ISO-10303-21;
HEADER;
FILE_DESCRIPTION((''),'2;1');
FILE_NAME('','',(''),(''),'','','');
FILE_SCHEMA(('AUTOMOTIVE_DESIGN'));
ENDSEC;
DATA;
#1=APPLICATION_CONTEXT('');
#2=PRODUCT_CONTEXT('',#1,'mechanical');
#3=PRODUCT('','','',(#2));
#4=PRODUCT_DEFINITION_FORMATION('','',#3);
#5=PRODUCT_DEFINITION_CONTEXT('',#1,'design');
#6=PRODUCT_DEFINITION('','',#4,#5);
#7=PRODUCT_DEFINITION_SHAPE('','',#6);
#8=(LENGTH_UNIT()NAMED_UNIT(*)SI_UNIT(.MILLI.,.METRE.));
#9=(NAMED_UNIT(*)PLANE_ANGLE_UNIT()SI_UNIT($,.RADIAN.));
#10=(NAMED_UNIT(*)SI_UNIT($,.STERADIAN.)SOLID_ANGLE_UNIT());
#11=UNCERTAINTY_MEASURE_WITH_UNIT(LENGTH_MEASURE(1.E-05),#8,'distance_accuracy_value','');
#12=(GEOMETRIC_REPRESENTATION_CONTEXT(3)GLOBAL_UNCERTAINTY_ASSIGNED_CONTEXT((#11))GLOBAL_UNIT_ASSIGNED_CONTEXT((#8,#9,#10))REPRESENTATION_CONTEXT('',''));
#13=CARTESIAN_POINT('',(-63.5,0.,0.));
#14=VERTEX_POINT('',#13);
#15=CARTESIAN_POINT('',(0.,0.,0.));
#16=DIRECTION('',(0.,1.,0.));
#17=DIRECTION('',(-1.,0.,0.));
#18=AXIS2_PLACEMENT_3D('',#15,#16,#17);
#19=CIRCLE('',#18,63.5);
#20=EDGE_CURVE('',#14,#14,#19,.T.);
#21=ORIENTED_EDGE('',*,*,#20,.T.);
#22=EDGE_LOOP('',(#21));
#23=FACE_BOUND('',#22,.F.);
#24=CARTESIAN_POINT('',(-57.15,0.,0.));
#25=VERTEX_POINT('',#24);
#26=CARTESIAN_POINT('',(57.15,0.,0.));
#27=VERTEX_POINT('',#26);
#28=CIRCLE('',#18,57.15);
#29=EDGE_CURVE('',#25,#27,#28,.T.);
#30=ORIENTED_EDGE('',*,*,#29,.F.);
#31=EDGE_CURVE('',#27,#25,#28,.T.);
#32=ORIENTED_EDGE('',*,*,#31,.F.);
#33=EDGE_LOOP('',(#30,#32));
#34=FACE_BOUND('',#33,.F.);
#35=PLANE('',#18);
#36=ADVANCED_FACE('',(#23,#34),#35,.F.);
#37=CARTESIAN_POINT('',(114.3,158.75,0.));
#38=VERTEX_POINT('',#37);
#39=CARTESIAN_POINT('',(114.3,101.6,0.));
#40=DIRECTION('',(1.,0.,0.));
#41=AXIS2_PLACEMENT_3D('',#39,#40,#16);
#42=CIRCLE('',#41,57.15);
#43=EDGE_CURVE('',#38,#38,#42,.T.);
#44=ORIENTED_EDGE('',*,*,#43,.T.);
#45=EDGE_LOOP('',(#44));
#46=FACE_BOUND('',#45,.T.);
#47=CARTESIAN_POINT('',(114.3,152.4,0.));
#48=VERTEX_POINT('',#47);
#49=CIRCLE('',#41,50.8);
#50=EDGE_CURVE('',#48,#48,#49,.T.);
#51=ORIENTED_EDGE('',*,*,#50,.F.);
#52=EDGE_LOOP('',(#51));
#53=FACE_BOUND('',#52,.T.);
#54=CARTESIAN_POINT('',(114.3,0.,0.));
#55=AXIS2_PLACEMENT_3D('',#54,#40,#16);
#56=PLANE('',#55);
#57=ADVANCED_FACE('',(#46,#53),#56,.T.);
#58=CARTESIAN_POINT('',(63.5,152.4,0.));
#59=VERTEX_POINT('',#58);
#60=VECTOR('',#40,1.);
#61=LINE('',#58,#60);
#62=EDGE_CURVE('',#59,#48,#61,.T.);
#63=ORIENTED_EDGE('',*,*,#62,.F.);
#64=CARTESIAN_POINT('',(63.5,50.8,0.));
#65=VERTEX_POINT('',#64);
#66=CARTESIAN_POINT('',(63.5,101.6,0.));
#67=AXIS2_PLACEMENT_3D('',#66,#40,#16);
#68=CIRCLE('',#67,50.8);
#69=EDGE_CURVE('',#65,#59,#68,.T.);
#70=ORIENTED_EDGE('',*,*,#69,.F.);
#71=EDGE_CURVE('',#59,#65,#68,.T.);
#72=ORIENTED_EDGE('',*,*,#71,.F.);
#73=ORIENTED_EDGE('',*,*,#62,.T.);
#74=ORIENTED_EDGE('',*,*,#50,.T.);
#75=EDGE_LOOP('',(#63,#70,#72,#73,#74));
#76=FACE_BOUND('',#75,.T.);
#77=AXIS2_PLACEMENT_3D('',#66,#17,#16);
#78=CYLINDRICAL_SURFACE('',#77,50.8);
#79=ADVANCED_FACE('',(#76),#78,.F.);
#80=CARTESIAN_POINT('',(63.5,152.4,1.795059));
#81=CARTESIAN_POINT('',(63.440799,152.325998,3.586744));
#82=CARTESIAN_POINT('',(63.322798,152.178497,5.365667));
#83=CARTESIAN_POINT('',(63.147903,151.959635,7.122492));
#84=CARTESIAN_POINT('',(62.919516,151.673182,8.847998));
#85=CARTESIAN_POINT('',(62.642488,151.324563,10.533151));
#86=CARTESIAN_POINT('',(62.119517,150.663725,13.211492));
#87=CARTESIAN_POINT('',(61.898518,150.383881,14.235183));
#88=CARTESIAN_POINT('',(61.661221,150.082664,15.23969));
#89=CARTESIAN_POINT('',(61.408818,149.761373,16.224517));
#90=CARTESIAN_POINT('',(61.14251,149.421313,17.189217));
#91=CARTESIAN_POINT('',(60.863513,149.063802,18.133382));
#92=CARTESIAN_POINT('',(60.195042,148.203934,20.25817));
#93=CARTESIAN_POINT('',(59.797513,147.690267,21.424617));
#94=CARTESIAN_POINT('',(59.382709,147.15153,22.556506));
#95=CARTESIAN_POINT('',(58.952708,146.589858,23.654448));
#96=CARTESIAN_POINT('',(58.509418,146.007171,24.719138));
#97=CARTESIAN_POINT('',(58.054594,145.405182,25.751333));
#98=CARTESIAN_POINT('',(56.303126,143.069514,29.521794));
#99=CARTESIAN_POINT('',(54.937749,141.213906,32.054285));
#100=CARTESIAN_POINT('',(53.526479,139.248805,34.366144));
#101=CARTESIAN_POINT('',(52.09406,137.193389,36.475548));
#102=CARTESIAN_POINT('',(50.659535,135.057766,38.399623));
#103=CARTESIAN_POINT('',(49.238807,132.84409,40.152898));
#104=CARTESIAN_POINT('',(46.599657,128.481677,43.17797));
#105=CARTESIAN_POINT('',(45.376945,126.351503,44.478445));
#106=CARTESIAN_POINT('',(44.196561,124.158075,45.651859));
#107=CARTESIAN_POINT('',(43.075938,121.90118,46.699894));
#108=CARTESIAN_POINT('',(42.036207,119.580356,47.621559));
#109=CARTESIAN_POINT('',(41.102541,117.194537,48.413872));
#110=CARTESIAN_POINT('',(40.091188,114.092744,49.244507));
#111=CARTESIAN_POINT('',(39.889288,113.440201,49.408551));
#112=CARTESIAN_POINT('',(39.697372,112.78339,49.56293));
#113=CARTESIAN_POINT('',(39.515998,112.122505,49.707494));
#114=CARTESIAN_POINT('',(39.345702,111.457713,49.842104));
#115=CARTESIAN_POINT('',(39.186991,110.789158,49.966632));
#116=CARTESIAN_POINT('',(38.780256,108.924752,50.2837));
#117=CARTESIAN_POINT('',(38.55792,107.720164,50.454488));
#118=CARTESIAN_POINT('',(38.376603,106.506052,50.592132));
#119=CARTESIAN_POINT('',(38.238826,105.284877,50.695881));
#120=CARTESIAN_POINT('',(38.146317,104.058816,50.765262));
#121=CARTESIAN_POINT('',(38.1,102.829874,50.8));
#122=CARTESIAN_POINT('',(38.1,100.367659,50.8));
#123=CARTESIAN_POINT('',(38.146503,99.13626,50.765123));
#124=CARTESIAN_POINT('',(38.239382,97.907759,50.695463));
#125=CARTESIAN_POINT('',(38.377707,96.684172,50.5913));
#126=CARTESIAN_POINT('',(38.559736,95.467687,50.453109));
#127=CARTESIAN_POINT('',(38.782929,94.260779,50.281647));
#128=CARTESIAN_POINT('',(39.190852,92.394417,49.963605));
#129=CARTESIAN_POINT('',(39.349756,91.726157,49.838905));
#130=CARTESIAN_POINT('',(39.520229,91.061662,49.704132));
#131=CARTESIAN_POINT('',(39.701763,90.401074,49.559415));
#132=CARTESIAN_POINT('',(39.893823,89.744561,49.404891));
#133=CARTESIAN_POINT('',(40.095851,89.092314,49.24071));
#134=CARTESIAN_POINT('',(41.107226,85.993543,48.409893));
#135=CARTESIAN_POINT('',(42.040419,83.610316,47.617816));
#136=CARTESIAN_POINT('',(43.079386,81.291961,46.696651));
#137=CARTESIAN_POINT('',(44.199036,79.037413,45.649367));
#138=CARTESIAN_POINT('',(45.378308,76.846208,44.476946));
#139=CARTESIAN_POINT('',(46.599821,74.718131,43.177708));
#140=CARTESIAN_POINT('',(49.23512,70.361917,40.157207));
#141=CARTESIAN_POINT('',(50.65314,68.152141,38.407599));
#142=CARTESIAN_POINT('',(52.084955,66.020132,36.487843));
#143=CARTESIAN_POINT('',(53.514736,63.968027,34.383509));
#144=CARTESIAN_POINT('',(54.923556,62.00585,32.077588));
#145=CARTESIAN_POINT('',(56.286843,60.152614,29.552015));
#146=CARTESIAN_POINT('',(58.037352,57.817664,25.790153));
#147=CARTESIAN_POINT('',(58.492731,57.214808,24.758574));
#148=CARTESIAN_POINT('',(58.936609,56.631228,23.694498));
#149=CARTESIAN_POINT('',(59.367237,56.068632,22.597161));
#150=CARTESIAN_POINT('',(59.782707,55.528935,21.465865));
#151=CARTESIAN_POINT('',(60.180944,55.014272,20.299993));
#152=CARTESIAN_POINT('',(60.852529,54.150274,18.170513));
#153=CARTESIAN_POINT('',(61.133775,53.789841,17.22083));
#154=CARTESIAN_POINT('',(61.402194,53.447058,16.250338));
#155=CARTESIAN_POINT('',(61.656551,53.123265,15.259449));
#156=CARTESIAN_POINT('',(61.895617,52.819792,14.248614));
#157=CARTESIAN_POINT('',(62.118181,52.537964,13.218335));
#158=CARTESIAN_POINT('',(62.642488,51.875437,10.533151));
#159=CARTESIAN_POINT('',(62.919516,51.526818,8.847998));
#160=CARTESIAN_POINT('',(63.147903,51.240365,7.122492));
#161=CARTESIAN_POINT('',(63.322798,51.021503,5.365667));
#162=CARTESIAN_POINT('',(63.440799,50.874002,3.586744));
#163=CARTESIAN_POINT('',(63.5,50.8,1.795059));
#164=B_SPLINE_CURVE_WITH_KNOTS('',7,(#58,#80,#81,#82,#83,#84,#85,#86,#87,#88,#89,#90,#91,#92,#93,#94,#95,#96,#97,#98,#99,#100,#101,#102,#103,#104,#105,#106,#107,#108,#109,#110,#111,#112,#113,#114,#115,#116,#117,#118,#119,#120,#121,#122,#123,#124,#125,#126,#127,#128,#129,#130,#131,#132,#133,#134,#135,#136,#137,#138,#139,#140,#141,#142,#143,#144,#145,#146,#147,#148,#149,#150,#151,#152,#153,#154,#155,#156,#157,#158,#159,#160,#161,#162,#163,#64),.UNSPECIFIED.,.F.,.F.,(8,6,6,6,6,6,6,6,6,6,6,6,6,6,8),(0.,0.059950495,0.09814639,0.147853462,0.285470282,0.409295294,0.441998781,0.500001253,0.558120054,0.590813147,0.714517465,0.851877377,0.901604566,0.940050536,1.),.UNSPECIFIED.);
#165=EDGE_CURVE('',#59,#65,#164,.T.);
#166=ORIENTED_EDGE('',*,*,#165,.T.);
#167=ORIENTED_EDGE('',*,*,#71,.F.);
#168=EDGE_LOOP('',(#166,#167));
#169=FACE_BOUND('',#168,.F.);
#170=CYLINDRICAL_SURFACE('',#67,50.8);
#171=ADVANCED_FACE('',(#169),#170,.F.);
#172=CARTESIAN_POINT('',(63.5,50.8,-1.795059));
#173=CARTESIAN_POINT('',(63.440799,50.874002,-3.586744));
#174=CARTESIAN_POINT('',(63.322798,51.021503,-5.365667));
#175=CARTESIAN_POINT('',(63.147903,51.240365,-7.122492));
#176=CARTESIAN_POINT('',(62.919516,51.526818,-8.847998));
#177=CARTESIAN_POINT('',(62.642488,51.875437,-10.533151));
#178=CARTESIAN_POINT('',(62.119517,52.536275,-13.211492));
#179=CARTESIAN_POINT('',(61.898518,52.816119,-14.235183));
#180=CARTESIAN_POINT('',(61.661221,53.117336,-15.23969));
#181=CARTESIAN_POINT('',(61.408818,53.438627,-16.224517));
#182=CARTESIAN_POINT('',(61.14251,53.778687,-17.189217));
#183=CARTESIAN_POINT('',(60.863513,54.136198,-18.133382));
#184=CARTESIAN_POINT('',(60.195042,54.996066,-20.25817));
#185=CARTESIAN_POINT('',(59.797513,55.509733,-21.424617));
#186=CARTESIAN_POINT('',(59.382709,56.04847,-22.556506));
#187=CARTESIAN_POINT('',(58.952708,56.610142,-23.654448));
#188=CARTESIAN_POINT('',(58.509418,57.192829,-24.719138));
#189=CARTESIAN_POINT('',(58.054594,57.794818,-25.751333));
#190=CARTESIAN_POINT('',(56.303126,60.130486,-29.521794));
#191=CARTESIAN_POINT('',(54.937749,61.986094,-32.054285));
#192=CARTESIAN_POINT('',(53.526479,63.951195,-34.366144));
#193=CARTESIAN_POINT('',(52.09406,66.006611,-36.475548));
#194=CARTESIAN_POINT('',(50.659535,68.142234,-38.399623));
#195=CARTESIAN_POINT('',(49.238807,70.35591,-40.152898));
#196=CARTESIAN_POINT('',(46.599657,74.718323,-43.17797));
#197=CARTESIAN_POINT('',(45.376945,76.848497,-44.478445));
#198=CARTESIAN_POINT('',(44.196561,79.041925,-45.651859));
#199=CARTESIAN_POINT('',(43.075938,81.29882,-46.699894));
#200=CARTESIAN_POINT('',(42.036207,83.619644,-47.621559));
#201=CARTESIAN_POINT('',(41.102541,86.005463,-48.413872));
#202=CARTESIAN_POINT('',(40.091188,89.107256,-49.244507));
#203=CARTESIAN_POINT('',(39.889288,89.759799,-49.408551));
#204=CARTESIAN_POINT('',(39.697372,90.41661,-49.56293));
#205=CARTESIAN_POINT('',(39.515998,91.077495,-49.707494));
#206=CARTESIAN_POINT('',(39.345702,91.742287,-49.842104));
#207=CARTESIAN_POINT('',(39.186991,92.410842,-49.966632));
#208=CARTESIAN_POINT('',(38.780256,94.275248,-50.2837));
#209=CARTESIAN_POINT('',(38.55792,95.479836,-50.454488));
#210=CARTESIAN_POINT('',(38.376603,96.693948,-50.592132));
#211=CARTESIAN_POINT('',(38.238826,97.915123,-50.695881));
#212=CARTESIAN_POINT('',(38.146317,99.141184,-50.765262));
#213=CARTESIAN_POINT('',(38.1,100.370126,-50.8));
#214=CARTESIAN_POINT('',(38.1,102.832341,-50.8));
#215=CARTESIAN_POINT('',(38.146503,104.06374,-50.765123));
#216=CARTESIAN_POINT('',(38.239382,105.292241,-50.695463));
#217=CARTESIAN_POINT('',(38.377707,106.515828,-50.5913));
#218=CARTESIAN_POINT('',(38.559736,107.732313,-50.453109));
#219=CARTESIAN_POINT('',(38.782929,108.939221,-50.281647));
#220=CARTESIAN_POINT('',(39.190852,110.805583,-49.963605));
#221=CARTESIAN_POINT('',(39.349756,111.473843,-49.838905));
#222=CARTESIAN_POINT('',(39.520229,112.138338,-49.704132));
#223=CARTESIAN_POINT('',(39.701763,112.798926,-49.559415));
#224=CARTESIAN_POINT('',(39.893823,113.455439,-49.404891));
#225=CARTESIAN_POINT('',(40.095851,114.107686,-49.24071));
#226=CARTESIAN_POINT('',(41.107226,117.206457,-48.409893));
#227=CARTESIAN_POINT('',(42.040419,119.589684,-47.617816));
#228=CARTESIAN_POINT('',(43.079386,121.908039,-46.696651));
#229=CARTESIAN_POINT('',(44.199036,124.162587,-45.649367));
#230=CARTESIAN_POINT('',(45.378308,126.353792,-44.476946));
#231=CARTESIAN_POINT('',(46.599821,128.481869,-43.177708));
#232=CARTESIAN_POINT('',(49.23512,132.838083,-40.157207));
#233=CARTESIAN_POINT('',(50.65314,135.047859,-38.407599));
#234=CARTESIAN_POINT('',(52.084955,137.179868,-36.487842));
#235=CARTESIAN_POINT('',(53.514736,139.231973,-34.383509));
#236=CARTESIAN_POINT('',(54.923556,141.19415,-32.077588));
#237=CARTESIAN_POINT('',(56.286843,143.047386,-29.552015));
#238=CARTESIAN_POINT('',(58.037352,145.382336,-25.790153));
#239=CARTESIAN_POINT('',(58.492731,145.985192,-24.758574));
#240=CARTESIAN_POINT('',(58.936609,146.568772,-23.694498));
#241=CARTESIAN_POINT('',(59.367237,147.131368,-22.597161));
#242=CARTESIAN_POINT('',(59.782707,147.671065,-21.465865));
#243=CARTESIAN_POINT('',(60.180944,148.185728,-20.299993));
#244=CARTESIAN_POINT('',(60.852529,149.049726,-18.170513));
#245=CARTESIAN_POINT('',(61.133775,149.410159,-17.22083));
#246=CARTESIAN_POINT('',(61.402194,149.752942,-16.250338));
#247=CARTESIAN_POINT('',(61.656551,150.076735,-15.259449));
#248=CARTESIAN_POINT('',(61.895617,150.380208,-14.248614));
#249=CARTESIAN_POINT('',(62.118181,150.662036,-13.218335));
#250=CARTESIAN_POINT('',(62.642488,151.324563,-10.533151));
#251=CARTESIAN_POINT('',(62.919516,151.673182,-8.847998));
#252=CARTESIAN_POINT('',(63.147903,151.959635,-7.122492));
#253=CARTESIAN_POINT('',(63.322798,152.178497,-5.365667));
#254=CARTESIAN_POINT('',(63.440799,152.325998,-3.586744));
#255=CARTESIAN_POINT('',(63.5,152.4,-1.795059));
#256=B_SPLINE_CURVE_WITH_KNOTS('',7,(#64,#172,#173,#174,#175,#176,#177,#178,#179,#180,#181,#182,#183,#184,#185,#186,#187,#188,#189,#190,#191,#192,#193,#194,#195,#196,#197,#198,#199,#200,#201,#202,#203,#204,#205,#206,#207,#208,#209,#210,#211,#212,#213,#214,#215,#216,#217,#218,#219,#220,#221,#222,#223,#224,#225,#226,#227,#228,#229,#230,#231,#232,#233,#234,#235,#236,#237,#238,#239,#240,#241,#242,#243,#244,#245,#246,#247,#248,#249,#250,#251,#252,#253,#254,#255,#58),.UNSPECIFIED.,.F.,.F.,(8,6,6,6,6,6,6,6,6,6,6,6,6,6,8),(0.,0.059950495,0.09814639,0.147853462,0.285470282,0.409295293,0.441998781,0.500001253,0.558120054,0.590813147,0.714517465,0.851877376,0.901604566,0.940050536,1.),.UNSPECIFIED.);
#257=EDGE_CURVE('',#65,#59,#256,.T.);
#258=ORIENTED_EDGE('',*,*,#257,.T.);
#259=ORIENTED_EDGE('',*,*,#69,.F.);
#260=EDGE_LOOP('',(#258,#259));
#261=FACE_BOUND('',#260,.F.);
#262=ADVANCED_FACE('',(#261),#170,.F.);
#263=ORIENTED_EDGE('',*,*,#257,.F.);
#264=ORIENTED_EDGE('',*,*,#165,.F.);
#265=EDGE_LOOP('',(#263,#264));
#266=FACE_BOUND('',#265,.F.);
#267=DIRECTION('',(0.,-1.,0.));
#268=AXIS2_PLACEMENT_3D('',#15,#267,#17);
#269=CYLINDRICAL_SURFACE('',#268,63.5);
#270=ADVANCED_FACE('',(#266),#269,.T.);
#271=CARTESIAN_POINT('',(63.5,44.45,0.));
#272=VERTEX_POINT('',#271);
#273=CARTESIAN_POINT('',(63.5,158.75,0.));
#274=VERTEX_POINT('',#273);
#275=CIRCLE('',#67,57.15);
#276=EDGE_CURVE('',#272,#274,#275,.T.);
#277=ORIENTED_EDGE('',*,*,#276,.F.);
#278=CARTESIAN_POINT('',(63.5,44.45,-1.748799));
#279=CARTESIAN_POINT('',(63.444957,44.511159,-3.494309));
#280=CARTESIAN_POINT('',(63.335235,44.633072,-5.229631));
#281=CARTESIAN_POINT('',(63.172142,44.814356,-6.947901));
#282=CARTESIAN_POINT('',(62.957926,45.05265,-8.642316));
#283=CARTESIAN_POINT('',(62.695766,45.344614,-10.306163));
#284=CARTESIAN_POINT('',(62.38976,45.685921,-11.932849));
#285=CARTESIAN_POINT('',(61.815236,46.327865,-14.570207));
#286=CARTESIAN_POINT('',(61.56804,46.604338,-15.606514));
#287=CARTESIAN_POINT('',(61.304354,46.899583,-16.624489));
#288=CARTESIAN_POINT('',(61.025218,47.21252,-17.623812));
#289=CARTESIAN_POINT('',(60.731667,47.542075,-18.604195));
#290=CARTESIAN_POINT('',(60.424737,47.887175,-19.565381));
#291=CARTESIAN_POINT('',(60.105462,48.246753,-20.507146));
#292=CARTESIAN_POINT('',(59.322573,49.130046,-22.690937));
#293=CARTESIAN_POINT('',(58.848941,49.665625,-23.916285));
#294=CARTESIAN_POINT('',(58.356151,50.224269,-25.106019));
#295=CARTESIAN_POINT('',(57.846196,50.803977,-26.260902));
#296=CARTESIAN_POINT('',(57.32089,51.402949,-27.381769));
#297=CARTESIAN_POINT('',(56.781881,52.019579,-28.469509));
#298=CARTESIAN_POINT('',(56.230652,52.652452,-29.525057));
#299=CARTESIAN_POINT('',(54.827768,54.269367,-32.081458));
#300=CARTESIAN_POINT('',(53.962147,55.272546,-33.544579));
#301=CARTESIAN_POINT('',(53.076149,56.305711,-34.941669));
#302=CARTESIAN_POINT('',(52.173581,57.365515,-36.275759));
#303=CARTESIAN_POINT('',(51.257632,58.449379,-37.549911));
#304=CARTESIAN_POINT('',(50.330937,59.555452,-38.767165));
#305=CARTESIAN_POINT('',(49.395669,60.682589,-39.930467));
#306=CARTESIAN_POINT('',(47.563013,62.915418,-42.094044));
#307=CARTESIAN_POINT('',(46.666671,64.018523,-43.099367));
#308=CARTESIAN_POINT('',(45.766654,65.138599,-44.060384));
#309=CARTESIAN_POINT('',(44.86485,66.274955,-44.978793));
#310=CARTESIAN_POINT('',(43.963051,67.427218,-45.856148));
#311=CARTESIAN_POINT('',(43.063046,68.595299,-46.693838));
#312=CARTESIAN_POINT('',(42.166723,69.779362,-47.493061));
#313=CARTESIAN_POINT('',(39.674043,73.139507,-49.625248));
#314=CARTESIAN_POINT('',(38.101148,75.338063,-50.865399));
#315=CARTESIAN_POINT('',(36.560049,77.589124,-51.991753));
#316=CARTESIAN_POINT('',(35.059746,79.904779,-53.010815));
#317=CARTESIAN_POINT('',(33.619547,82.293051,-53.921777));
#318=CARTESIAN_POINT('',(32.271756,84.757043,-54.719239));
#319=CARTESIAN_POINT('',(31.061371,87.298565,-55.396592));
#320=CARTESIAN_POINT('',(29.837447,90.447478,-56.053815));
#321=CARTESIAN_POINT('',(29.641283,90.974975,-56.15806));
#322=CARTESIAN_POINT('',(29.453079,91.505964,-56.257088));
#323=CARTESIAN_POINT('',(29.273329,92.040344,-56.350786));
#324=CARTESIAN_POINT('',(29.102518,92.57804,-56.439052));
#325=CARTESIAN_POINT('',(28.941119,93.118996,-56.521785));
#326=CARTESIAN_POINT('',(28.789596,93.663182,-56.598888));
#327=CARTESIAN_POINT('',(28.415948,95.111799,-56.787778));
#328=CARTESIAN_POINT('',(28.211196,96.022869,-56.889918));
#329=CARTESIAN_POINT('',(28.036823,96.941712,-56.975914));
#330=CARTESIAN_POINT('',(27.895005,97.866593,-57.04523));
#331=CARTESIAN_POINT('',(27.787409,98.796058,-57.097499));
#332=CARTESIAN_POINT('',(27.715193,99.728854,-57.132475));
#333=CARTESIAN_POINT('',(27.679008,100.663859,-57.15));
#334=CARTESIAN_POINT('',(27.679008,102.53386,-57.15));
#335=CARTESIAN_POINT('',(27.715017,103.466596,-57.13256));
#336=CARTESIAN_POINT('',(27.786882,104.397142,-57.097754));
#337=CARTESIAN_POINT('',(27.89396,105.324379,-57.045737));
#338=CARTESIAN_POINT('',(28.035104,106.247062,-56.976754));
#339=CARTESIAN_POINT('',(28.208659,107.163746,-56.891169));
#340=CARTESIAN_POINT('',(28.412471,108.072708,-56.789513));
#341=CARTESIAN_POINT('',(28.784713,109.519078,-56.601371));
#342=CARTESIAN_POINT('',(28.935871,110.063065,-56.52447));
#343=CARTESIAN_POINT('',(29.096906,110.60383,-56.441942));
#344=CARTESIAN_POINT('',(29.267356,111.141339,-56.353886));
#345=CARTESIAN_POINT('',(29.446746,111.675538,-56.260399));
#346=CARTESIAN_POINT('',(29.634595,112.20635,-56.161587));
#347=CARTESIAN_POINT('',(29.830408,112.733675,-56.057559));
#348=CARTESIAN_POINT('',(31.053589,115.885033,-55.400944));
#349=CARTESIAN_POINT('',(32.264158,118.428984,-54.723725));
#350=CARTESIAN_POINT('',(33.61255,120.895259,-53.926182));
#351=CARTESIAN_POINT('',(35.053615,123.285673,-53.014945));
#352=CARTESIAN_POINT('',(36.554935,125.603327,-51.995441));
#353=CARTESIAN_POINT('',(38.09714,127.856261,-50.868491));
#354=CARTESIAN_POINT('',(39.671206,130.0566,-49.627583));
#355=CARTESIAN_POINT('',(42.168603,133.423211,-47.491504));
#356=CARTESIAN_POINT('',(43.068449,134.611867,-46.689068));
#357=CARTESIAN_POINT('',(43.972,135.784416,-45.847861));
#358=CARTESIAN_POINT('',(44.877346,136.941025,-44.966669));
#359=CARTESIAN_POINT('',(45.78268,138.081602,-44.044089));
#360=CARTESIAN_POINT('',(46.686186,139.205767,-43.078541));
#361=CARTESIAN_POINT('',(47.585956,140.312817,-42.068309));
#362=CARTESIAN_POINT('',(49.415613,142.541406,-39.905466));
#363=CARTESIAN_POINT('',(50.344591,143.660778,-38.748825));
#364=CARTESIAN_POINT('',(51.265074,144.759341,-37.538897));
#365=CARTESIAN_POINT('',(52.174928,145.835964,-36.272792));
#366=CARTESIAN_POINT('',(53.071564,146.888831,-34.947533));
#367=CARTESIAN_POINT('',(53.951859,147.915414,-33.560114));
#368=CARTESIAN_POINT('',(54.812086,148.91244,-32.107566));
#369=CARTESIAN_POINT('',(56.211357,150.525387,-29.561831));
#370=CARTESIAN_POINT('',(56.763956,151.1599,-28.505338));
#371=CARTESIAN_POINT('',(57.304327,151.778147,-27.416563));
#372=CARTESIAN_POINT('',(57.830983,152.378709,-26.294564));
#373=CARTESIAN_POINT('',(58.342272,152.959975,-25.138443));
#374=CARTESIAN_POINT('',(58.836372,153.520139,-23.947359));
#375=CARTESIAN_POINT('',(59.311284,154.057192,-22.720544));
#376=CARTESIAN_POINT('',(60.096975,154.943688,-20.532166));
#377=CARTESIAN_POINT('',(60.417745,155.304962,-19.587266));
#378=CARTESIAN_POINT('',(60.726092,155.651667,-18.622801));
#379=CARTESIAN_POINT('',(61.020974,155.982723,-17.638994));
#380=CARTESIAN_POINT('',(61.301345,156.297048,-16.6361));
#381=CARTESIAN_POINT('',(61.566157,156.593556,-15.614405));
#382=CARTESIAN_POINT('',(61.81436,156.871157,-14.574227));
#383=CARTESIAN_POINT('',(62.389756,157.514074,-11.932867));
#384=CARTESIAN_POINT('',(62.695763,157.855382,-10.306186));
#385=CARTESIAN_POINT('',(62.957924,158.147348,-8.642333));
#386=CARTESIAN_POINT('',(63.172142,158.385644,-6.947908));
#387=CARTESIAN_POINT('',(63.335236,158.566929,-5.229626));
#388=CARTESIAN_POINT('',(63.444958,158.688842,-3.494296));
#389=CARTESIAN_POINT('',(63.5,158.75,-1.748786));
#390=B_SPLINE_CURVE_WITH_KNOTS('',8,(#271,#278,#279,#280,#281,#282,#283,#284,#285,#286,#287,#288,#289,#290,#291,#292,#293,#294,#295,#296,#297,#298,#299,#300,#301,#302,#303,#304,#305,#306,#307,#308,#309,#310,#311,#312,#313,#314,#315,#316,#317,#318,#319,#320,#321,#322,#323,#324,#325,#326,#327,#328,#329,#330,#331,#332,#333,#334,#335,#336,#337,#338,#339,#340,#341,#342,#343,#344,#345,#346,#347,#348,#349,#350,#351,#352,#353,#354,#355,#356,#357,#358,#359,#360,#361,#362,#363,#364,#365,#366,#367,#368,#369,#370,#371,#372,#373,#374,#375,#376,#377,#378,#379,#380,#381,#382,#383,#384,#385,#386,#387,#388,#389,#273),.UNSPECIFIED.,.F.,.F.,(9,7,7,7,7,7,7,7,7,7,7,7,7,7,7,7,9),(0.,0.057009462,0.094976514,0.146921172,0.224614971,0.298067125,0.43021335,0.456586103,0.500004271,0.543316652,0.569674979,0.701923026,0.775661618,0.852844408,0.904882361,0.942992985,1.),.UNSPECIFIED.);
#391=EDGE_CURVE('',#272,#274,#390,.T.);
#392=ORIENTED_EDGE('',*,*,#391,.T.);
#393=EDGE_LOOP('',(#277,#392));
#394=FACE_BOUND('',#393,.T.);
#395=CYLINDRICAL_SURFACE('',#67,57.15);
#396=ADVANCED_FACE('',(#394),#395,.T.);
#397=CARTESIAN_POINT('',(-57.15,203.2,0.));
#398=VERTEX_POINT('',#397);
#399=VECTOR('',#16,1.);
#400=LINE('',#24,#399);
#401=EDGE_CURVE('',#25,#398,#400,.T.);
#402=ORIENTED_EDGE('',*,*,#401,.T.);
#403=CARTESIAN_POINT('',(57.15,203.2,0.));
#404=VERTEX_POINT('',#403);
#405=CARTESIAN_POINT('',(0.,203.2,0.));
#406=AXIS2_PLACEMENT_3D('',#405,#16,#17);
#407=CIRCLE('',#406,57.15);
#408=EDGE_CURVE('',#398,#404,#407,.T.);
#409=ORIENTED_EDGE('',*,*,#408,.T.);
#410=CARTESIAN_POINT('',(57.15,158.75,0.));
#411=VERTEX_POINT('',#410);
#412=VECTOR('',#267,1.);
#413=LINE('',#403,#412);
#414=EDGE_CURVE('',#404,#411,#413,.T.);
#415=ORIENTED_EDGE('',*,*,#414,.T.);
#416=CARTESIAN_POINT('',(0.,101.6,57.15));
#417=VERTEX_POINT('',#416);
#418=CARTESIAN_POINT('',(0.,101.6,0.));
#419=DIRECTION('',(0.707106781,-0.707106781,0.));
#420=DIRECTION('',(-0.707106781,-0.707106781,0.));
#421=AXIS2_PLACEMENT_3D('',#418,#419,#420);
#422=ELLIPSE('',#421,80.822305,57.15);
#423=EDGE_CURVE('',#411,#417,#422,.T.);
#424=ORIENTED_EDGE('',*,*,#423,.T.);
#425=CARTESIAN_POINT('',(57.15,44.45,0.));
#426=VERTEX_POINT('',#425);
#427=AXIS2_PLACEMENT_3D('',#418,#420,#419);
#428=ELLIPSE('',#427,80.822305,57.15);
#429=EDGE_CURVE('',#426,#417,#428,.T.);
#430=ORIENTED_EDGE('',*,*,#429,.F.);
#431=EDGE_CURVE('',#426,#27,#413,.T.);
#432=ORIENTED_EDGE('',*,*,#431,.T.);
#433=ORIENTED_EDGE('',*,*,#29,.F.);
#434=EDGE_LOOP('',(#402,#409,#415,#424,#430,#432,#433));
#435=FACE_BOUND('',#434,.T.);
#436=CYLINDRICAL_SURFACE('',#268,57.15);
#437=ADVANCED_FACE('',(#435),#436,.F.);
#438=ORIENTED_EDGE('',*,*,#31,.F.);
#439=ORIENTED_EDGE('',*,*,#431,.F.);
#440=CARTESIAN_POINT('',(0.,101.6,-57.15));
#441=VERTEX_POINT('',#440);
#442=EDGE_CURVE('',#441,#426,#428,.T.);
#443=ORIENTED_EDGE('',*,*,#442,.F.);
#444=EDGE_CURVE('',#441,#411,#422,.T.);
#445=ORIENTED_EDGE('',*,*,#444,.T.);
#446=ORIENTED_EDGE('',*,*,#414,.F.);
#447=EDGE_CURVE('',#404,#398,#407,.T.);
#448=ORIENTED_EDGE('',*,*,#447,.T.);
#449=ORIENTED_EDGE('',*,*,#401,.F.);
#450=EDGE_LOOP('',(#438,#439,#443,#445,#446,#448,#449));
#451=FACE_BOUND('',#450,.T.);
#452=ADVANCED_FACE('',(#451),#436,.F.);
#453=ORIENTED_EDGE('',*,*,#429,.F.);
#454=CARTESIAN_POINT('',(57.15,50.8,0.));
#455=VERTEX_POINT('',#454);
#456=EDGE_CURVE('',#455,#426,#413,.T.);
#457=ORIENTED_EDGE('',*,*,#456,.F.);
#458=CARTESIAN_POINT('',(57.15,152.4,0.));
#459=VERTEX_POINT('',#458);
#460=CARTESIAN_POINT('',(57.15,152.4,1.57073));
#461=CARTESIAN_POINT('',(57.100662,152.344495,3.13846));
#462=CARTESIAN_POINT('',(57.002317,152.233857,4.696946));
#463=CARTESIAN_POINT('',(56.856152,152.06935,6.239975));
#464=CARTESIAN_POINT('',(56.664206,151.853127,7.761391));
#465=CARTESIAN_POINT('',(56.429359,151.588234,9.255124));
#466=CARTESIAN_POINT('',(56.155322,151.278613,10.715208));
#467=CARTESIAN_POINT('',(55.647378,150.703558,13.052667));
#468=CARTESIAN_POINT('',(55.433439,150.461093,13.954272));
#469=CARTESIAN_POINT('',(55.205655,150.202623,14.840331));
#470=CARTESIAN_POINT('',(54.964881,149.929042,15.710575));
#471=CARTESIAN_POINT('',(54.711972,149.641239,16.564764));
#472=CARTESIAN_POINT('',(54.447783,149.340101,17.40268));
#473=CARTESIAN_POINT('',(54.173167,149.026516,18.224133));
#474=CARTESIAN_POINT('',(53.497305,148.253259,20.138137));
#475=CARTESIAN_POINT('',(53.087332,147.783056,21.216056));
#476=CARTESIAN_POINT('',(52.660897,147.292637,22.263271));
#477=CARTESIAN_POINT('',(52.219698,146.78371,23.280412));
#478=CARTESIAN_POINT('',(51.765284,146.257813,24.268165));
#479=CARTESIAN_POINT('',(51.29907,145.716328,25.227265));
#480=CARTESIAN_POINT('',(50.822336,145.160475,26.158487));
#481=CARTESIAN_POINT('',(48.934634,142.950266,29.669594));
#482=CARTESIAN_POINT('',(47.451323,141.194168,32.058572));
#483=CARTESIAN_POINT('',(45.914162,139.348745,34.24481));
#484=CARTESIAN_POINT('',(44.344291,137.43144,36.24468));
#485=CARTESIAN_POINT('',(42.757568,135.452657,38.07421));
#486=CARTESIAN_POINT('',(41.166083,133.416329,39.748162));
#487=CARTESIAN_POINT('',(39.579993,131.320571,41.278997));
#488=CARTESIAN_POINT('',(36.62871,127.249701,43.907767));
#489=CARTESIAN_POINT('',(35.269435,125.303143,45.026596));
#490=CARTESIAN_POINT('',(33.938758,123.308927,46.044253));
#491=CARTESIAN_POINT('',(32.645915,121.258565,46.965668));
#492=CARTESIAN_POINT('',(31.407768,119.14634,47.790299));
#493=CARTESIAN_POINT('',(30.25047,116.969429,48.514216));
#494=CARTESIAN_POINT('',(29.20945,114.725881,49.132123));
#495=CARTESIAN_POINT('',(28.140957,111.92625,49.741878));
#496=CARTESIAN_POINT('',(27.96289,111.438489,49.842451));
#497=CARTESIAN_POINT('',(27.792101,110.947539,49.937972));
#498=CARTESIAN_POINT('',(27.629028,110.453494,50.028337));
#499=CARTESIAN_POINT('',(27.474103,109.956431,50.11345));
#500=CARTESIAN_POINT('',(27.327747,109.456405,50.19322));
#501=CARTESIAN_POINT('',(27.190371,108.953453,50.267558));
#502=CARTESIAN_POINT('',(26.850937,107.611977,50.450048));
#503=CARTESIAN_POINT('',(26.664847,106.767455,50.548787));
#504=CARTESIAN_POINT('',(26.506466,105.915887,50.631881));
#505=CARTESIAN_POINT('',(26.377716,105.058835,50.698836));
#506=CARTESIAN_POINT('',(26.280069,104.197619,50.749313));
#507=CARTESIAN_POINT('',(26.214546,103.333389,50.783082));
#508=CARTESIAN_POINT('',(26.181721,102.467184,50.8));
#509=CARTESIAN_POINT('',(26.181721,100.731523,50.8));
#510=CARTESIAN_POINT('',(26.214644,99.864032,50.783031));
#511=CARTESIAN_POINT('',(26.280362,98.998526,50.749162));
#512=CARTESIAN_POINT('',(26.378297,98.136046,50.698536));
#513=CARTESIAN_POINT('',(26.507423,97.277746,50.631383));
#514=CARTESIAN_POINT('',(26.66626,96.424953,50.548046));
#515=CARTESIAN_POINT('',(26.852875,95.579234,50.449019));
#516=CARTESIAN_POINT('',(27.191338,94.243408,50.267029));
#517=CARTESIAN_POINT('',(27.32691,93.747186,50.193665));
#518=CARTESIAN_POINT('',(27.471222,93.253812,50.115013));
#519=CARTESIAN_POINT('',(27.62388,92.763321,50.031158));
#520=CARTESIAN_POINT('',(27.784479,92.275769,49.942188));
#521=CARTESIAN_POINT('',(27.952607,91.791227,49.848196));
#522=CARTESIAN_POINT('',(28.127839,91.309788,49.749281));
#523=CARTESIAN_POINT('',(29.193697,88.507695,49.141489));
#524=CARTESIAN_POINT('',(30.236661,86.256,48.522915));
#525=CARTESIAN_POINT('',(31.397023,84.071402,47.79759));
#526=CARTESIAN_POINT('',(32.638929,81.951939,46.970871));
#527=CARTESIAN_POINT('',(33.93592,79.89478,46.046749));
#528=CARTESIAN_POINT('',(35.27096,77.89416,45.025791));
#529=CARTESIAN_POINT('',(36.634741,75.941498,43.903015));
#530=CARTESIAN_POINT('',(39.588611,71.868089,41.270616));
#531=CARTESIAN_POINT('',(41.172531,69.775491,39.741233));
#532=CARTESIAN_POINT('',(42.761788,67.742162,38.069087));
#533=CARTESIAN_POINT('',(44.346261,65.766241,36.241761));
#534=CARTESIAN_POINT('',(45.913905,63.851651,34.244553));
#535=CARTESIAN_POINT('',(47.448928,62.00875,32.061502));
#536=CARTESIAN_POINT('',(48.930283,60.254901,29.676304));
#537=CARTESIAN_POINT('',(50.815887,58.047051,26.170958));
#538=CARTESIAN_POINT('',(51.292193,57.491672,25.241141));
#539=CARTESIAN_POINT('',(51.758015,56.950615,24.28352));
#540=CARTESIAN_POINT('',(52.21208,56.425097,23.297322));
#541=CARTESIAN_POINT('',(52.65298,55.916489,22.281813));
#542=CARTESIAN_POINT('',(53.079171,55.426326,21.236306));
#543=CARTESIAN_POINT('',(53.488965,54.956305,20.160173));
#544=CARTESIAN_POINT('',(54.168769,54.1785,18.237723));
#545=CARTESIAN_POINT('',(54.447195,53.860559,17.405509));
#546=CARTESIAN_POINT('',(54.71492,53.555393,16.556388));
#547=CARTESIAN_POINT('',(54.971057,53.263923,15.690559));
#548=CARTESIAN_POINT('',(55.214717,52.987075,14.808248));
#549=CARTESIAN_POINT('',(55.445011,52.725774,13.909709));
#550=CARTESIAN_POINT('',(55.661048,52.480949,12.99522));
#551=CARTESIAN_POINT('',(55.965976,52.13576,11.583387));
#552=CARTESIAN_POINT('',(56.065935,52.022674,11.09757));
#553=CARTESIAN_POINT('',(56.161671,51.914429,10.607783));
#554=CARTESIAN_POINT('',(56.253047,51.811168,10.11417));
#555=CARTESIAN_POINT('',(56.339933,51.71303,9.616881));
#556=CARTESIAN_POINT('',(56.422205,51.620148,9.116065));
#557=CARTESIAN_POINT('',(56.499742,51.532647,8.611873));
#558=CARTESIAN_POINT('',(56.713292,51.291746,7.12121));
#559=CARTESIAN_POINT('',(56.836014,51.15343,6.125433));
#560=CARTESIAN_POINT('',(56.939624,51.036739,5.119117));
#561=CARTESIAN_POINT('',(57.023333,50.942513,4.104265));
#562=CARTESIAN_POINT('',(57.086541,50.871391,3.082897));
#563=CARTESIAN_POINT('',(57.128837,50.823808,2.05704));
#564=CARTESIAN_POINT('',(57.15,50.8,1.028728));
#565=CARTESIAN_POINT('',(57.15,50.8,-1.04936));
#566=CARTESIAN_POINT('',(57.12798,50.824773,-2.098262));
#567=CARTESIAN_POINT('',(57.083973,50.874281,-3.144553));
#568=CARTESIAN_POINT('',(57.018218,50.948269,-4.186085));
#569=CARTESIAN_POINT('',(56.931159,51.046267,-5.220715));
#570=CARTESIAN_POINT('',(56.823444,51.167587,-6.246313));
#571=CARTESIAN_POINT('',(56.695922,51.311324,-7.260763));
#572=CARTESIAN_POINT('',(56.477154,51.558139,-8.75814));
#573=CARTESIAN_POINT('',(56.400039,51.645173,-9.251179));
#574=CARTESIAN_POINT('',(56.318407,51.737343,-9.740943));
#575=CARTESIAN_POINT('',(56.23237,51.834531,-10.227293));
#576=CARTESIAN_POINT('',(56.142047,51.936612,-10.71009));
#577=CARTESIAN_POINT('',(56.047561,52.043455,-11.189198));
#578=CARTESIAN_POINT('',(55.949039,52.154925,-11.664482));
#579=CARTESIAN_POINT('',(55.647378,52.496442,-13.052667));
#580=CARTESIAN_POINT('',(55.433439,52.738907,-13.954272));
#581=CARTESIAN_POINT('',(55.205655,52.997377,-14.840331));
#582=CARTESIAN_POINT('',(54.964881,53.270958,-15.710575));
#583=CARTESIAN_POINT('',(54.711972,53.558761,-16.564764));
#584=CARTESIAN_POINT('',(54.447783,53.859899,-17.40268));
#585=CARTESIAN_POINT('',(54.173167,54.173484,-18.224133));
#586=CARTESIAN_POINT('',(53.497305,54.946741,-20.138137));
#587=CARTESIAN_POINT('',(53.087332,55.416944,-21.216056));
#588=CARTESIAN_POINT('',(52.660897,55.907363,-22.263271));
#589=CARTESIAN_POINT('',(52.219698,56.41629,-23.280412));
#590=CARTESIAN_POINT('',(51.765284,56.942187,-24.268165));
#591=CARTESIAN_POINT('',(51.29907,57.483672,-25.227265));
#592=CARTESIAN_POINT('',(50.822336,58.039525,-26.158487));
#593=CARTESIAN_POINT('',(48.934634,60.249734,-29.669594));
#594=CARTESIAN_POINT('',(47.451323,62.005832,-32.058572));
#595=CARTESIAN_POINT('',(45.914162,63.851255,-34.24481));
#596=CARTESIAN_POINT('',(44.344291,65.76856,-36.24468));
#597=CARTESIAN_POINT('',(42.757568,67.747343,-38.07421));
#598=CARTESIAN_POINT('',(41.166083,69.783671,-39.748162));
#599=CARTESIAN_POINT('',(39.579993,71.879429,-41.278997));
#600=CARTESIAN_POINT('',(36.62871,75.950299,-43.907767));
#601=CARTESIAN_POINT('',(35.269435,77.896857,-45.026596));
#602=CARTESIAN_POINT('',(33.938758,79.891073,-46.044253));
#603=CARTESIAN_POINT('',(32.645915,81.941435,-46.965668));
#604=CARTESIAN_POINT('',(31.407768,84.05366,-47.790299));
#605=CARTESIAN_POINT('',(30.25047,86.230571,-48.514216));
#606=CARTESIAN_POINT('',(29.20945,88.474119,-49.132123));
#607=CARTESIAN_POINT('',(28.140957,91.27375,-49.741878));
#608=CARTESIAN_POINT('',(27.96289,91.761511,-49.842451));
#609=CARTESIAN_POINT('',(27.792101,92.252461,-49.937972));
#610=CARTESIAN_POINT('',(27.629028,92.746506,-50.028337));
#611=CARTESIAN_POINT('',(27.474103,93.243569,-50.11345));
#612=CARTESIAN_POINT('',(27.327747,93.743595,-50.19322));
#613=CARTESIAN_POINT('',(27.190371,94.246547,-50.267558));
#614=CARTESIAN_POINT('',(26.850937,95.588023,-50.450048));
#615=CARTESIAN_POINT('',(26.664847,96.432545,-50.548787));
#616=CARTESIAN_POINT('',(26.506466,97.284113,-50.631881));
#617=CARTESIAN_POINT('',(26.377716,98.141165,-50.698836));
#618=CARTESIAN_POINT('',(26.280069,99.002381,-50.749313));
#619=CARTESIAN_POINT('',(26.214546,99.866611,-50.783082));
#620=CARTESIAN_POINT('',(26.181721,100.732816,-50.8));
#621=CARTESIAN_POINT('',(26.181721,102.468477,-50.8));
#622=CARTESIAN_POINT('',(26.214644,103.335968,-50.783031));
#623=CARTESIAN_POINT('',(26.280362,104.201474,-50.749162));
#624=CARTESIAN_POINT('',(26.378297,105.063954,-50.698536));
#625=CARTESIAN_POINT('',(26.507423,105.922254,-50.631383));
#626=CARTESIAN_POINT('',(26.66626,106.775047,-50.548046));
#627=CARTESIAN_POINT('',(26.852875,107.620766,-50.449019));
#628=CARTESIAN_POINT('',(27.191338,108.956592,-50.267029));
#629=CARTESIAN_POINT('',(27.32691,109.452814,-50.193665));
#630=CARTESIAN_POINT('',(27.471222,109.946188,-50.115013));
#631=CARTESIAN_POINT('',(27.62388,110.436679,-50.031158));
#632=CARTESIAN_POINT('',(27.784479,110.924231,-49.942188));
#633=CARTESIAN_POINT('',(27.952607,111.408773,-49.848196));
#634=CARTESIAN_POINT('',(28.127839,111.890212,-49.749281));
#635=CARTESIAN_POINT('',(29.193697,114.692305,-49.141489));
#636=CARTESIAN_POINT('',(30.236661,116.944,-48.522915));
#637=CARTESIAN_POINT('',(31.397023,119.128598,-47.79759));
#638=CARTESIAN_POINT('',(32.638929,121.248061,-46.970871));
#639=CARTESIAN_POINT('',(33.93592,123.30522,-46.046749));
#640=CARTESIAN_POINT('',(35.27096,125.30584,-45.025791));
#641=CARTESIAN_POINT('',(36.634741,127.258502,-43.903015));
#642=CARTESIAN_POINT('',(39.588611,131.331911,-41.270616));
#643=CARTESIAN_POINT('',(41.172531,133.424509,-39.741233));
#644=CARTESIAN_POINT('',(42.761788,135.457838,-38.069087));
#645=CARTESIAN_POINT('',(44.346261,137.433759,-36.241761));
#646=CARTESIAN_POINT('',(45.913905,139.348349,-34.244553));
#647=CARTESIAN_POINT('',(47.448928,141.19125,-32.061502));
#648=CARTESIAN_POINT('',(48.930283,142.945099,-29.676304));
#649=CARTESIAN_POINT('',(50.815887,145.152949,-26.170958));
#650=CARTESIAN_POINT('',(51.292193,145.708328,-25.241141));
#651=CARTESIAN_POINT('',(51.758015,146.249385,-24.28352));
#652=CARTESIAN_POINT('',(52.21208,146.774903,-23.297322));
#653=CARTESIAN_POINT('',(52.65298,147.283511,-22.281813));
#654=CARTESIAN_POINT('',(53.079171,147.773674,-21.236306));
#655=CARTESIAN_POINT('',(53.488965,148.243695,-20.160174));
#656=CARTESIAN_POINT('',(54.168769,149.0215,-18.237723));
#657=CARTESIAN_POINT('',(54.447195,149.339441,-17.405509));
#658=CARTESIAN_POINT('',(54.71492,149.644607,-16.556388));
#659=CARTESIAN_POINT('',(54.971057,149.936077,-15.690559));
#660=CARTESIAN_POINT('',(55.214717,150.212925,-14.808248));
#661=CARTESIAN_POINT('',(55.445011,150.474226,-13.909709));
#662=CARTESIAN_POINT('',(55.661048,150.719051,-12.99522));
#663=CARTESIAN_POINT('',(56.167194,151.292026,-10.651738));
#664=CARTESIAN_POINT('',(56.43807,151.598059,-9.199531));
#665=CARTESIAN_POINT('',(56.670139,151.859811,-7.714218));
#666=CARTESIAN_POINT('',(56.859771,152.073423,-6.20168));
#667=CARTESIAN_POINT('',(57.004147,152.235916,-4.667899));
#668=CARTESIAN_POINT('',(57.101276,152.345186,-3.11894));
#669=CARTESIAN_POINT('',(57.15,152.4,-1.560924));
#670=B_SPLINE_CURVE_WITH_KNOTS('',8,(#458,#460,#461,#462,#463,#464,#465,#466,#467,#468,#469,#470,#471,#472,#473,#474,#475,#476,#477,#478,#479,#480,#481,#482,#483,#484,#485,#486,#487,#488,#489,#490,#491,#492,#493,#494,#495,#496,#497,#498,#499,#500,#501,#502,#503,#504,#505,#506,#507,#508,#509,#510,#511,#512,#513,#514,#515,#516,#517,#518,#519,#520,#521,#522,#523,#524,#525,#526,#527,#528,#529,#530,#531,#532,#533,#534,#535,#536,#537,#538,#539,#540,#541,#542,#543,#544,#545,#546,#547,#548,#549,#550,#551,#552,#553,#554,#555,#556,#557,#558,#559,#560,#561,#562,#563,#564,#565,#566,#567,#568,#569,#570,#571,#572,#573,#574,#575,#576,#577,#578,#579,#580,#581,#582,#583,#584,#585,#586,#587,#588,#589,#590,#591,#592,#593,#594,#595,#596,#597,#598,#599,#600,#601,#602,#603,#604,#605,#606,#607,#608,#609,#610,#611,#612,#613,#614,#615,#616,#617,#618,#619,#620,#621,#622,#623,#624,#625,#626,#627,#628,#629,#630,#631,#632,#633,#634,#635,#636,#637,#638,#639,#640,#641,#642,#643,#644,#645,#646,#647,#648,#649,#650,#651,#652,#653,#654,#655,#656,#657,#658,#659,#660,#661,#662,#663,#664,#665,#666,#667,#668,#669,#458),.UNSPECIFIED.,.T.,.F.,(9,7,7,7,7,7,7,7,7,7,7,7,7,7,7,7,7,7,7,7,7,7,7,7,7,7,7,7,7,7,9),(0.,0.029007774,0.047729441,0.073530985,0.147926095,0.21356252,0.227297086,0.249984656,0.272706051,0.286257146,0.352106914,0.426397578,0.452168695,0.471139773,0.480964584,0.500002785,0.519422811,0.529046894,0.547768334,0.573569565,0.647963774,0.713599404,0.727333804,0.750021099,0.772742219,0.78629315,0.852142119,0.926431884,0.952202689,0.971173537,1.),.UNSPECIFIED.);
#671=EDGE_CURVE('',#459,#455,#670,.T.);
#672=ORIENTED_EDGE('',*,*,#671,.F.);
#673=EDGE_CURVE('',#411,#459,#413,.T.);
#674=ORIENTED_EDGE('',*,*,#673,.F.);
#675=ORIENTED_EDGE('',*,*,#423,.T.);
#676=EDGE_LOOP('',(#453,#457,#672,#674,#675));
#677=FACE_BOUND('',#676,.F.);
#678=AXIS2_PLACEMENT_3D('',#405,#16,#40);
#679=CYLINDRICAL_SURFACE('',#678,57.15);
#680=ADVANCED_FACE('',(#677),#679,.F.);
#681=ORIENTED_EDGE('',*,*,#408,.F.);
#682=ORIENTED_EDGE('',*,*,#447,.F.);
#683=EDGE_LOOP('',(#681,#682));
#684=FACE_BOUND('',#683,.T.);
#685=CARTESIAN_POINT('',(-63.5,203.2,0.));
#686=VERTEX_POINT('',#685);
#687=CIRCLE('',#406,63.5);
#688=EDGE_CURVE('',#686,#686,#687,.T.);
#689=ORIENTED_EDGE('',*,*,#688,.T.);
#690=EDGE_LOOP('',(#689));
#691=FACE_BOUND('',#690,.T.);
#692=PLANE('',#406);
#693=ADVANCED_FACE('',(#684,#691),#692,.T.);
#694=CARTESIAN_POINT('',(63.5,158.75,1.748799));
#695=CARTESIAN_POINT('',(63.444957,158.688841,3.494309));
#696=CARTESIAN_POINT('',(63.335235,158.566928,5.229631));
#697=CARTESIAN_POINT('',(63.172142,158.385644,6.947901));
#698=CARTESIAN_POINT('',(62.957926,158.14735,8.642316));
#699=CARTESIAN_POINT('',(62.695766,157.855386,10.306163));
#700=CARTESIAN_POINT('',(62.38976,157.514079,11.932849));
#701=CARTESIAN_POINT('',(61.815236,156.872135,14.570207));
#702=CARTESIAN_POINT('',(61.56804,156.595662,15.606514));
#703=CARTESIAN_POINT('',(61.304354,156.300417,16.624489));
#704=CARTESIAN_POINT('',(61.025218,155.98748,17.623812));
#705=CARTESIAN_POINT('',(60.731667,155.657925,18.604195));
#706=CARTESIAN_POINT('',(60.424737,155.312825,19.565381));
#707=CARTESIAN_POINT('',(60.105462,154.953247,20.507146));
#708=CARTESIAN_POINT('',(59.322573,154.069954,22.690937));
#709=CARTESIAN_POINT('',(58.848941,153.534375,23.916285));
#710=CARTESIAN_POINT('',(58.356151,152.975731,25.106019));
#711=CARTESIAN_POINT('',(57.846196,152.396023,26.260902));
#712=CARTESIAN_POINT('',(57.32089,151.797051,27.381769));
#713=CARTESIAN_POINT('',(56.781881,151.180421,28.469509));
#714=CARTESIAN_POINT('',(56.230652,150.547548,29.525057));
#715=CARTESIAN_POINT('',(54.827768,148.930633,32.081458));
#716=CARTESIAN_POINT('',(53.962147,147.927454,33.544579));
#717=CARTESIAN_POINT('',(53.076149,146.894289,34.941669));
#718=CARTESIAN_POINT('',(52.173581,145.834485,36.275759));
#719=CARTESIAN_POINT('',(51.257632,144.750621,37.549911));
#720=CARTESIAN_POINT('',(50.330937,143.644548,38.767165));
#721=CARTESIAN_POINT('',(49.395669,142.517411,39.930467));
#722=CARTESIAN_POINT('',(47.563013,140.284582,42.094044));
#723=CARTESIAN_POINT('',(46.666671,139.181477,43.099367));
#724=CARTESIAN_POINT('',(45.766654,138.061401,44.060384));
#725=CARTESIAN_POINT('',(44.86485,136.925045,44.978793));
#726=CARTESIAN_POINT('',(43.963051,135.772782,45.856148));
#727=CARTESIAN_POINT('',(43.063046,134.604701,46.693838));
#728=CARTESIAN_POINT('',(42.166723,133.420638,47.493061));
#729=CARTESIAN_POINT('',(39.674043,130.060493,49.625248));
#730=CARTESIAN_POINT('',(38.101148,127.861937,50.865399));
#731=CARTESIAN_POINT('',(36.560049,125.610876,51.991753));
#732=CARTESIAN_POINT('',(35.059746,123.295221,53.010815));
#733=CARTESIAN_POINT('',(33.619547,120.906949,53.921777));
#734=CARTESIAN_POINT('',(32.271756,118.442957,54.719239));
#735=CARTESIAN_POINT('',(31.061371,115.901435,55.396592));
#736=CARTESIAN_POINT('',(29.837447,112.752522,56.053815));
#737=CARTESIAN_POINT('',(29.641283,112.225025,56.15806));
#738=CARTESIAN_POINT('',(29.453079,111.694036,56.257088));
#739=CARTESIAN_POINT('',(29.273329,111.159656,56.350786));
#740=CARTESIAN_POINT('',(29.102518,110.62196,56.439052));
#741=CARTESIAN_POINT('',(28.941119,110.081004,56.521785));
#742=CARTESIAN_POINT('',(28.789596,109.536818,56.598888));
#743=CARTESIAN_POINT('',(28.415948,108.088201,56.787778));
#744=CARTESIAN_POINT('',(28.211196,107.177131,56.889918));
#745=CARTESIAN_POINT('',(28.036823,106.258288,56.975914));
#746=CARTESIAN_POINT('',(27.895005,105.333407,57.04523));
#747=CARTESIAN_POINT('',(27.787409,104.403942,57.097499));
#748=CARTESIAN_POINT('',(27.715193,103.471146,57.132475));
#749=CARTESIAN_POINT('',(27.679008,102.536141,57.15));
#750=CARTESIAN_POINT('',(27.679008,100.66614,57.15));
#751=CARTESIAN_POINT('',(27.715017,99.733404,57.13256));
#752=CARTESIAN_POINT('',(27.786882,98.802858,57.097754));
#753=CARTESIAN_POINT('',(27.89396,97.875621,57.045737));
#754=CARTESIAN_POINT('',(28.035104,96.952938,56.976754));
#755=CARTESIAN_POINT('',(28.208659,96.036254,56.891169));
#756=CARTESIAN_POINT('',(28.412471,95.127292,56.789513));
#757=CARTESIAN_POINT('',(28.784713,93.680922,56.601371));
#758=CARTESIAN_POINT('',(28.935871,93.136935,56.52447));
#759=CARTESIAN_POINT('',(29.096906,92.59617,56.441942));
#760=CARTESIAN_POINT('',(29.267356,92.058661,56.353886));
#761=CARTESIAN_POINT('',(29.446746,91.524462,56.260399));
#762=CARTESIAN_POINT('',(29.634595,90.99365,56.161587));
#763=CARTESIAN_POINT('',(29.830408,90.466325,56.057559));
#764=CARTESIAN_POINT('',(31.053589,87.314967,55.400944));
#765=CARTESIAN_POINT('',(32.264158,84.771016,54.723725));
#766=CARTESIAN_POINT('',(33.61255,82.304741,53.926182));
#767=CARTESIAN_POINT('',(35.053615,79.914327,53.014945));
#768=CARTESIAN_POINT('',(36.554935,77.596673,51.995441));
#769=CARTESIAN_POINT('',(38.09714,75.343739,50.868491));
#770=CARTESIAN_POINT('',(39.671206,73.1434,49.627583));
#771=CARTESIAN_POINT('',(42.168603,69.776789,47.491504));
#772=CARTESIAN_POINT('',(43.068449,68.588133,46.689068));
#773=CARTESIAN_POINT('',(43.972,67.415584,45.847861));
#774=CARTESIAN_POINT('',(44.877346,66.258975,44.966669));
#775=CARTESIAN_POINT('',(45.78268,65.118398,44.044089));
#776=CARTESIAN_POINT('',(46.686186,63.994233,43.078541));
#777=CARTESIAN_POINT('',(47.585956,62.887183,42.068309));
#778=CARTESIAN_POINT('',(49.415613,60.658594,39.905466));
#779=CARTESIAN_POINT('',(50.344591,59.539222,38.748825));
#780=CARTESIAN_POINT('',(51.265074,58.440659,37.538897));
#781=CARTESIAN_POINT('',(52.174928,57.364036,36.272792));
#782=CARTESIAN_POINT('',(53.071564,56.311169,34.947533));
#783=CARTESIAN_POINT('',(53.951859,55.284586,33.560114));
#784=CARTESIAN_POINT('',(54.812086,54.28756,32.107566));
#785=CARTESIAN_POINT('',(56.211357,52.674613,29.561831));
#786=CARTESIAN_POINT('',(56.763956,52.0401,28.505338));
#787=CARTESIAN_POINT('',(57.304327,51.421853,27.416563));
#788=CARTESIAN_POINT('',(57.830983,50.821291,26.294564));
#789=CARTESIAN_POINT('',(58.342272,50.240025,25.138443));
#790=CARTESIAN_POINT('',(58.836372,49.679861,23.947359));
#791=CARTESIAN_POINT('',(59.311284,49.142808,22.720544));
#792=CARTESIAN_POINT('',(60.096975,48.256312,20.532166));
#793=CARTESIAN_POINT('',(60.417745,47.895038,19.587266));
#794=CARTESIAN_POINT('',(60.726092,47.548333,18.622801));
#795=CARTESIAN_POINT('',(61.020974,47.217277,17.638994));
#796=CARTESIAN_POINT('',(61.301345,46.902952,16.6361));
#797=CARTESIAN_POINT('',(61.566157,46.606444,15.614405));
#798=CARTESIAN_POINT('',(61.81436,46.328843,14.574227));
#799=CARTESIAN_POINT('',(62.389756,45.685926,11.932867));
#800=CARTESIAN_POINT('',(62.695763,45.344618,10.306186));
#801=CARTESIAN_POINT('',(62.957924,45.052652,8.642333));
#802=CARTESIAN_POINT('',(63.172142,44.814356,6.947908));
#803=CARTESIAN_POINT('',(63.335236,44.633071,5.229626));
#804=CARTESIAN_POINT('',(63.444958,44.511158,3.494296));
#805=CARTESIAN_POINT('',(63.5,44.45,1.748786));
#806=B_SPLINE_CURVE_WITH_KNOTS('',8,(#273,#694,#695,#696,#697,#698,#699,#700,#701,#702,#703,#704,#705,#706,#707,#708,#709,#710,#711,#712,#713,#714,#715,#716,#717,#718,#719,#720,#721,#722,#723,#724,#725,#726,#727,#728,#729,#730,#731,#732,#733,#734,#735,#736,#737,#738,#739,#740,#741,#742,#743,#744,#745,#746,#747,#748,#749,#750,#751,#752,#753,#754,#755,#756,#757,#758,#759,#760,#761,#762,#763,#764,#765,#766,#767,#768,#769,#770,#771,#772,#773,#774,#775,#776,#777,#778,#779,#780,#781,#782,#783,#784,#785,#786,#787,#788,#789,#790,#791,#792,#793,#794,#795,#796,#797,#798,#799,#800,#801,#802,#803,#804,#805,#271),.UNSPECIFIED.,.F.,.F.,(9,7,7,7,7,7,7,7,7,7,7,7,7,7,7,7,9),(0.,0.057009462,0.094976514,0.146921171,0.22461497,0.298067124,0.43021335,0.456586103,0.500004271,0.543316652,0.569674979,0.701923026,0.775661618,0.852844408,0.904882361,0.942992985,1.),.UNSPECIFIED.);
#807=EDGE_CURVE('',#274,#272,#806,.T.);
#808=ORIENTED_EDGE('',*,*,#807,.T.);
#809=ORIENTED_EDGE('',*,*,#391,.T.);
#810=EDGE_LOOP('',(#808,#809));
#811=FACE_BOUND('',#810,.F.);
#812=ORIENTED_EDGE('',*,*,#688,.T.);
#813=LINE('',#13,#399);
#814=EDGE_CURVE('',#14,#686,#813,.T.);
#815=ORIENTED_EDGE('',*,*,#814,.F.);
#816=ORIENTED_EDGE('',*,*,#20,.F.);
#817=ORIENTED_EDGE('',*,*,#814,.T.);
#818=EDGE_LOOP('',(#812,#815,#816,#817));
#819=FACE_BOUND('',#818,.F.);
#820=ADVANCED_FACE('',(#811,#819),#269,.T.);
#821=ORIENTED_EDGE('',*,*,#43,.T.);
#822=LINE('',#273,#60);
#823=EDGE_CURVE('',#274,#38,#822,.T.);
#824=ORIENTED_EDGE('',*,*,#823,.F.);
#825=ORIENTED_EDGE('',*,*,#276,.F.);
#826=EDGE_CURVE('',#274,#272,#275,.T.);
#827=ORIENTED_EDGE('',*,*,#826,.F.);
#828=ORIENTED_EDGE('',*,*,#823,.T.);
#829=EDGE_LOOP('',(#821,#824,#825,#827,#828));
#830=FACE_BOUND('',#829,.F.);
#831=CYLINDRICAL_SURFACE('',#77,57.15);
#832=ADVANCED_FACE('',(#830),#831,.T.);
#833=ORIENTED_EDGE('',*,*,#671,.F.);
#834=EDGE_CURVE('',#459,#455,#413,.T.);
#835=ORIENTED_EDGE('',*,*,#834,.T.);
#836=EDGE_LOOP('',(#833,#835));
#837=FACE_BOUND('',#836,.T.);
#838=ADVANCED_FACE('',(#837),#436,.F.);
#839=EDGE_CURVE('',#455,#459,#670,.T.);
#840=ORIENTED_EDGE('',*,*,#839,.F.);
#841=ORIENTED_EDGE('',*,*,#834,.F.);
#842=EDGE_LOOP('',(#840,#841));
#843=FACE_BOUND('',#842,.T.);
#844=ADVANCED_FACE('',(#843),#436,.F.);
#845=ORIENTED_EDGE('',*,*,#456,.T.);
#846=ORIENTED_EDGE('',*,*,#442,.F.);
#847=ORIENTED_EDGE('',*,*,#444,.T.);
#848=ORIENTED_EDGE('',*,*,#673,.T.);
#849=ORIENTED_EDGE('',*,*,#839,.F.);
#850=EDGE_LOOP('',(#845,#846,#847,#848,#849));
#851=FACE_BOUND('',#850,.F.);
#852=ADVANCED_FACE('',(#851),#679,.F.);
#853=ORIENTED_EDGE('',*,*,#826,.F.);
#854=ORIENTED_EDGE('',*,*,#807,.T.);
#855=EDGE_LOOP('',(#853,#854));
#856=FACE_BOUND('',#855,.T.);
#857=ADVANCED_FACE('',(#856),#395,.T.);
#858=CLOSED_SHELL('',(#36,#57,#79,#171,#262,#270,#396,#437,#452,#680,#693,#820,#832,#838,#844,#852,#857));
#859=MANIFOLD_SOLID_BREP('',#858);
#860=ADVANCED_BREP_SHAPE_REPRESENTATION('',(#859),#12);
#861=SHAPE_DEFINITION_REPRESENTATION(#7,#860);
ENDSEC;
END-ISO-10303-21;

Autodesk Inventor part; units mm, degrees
ref_plane "XZ Plane" through (0, 0, 0) normal (0, 1, 0) x (-1, 0, 0)
ref_plane "XY Plane" through (0, 0, 0) normal (0, 0, 1) x (1, 0, 0)
sketch "Sketch1" plane through (0, 0, 0) normal (0, 1, 0) x (-1, 0, 0)
  circle A0 centre (0, 0) radius 57.15
  circle A1 centre (0, 0) radius 63.5
  dimension "d0" = 114.3
  dimension "d1" = 6.35
extrude "Extrusion1" add sketch "Sketch1" along normal blind 203.2
ref_plane "Work Plane1" through (63.5, 0, 0) normal (1, 0, 0) x (0, 1, 0)
sketch "Sketch2" plane through (63.5, 0, 0) normal (1, 0, 0) x (0, 1, 0)
  circle A0 centre (101.6, 0) radius 57.15
  circle A1 centre (101.6, 0) radius 50.8
  point P0 (0, 0)
  dimension "d4" = 101.6
  dimension "d5" = 114.3
  dimension "d6" = 101.6
extrude "Extrusion2" add sketch "Sketch2" along normal blind 50.8 and the other way blind 63.5
sketch "Sketch3" plane through (0, 203.2, 0) normal (0, 1, 0) x (1, 0, 0)
  circle A0 centre (0, 0) radius 57.15 projected
extrude "Extrusion3" cut sketch "Sketch3" against normal blind 254
properties part number "T Junction"
